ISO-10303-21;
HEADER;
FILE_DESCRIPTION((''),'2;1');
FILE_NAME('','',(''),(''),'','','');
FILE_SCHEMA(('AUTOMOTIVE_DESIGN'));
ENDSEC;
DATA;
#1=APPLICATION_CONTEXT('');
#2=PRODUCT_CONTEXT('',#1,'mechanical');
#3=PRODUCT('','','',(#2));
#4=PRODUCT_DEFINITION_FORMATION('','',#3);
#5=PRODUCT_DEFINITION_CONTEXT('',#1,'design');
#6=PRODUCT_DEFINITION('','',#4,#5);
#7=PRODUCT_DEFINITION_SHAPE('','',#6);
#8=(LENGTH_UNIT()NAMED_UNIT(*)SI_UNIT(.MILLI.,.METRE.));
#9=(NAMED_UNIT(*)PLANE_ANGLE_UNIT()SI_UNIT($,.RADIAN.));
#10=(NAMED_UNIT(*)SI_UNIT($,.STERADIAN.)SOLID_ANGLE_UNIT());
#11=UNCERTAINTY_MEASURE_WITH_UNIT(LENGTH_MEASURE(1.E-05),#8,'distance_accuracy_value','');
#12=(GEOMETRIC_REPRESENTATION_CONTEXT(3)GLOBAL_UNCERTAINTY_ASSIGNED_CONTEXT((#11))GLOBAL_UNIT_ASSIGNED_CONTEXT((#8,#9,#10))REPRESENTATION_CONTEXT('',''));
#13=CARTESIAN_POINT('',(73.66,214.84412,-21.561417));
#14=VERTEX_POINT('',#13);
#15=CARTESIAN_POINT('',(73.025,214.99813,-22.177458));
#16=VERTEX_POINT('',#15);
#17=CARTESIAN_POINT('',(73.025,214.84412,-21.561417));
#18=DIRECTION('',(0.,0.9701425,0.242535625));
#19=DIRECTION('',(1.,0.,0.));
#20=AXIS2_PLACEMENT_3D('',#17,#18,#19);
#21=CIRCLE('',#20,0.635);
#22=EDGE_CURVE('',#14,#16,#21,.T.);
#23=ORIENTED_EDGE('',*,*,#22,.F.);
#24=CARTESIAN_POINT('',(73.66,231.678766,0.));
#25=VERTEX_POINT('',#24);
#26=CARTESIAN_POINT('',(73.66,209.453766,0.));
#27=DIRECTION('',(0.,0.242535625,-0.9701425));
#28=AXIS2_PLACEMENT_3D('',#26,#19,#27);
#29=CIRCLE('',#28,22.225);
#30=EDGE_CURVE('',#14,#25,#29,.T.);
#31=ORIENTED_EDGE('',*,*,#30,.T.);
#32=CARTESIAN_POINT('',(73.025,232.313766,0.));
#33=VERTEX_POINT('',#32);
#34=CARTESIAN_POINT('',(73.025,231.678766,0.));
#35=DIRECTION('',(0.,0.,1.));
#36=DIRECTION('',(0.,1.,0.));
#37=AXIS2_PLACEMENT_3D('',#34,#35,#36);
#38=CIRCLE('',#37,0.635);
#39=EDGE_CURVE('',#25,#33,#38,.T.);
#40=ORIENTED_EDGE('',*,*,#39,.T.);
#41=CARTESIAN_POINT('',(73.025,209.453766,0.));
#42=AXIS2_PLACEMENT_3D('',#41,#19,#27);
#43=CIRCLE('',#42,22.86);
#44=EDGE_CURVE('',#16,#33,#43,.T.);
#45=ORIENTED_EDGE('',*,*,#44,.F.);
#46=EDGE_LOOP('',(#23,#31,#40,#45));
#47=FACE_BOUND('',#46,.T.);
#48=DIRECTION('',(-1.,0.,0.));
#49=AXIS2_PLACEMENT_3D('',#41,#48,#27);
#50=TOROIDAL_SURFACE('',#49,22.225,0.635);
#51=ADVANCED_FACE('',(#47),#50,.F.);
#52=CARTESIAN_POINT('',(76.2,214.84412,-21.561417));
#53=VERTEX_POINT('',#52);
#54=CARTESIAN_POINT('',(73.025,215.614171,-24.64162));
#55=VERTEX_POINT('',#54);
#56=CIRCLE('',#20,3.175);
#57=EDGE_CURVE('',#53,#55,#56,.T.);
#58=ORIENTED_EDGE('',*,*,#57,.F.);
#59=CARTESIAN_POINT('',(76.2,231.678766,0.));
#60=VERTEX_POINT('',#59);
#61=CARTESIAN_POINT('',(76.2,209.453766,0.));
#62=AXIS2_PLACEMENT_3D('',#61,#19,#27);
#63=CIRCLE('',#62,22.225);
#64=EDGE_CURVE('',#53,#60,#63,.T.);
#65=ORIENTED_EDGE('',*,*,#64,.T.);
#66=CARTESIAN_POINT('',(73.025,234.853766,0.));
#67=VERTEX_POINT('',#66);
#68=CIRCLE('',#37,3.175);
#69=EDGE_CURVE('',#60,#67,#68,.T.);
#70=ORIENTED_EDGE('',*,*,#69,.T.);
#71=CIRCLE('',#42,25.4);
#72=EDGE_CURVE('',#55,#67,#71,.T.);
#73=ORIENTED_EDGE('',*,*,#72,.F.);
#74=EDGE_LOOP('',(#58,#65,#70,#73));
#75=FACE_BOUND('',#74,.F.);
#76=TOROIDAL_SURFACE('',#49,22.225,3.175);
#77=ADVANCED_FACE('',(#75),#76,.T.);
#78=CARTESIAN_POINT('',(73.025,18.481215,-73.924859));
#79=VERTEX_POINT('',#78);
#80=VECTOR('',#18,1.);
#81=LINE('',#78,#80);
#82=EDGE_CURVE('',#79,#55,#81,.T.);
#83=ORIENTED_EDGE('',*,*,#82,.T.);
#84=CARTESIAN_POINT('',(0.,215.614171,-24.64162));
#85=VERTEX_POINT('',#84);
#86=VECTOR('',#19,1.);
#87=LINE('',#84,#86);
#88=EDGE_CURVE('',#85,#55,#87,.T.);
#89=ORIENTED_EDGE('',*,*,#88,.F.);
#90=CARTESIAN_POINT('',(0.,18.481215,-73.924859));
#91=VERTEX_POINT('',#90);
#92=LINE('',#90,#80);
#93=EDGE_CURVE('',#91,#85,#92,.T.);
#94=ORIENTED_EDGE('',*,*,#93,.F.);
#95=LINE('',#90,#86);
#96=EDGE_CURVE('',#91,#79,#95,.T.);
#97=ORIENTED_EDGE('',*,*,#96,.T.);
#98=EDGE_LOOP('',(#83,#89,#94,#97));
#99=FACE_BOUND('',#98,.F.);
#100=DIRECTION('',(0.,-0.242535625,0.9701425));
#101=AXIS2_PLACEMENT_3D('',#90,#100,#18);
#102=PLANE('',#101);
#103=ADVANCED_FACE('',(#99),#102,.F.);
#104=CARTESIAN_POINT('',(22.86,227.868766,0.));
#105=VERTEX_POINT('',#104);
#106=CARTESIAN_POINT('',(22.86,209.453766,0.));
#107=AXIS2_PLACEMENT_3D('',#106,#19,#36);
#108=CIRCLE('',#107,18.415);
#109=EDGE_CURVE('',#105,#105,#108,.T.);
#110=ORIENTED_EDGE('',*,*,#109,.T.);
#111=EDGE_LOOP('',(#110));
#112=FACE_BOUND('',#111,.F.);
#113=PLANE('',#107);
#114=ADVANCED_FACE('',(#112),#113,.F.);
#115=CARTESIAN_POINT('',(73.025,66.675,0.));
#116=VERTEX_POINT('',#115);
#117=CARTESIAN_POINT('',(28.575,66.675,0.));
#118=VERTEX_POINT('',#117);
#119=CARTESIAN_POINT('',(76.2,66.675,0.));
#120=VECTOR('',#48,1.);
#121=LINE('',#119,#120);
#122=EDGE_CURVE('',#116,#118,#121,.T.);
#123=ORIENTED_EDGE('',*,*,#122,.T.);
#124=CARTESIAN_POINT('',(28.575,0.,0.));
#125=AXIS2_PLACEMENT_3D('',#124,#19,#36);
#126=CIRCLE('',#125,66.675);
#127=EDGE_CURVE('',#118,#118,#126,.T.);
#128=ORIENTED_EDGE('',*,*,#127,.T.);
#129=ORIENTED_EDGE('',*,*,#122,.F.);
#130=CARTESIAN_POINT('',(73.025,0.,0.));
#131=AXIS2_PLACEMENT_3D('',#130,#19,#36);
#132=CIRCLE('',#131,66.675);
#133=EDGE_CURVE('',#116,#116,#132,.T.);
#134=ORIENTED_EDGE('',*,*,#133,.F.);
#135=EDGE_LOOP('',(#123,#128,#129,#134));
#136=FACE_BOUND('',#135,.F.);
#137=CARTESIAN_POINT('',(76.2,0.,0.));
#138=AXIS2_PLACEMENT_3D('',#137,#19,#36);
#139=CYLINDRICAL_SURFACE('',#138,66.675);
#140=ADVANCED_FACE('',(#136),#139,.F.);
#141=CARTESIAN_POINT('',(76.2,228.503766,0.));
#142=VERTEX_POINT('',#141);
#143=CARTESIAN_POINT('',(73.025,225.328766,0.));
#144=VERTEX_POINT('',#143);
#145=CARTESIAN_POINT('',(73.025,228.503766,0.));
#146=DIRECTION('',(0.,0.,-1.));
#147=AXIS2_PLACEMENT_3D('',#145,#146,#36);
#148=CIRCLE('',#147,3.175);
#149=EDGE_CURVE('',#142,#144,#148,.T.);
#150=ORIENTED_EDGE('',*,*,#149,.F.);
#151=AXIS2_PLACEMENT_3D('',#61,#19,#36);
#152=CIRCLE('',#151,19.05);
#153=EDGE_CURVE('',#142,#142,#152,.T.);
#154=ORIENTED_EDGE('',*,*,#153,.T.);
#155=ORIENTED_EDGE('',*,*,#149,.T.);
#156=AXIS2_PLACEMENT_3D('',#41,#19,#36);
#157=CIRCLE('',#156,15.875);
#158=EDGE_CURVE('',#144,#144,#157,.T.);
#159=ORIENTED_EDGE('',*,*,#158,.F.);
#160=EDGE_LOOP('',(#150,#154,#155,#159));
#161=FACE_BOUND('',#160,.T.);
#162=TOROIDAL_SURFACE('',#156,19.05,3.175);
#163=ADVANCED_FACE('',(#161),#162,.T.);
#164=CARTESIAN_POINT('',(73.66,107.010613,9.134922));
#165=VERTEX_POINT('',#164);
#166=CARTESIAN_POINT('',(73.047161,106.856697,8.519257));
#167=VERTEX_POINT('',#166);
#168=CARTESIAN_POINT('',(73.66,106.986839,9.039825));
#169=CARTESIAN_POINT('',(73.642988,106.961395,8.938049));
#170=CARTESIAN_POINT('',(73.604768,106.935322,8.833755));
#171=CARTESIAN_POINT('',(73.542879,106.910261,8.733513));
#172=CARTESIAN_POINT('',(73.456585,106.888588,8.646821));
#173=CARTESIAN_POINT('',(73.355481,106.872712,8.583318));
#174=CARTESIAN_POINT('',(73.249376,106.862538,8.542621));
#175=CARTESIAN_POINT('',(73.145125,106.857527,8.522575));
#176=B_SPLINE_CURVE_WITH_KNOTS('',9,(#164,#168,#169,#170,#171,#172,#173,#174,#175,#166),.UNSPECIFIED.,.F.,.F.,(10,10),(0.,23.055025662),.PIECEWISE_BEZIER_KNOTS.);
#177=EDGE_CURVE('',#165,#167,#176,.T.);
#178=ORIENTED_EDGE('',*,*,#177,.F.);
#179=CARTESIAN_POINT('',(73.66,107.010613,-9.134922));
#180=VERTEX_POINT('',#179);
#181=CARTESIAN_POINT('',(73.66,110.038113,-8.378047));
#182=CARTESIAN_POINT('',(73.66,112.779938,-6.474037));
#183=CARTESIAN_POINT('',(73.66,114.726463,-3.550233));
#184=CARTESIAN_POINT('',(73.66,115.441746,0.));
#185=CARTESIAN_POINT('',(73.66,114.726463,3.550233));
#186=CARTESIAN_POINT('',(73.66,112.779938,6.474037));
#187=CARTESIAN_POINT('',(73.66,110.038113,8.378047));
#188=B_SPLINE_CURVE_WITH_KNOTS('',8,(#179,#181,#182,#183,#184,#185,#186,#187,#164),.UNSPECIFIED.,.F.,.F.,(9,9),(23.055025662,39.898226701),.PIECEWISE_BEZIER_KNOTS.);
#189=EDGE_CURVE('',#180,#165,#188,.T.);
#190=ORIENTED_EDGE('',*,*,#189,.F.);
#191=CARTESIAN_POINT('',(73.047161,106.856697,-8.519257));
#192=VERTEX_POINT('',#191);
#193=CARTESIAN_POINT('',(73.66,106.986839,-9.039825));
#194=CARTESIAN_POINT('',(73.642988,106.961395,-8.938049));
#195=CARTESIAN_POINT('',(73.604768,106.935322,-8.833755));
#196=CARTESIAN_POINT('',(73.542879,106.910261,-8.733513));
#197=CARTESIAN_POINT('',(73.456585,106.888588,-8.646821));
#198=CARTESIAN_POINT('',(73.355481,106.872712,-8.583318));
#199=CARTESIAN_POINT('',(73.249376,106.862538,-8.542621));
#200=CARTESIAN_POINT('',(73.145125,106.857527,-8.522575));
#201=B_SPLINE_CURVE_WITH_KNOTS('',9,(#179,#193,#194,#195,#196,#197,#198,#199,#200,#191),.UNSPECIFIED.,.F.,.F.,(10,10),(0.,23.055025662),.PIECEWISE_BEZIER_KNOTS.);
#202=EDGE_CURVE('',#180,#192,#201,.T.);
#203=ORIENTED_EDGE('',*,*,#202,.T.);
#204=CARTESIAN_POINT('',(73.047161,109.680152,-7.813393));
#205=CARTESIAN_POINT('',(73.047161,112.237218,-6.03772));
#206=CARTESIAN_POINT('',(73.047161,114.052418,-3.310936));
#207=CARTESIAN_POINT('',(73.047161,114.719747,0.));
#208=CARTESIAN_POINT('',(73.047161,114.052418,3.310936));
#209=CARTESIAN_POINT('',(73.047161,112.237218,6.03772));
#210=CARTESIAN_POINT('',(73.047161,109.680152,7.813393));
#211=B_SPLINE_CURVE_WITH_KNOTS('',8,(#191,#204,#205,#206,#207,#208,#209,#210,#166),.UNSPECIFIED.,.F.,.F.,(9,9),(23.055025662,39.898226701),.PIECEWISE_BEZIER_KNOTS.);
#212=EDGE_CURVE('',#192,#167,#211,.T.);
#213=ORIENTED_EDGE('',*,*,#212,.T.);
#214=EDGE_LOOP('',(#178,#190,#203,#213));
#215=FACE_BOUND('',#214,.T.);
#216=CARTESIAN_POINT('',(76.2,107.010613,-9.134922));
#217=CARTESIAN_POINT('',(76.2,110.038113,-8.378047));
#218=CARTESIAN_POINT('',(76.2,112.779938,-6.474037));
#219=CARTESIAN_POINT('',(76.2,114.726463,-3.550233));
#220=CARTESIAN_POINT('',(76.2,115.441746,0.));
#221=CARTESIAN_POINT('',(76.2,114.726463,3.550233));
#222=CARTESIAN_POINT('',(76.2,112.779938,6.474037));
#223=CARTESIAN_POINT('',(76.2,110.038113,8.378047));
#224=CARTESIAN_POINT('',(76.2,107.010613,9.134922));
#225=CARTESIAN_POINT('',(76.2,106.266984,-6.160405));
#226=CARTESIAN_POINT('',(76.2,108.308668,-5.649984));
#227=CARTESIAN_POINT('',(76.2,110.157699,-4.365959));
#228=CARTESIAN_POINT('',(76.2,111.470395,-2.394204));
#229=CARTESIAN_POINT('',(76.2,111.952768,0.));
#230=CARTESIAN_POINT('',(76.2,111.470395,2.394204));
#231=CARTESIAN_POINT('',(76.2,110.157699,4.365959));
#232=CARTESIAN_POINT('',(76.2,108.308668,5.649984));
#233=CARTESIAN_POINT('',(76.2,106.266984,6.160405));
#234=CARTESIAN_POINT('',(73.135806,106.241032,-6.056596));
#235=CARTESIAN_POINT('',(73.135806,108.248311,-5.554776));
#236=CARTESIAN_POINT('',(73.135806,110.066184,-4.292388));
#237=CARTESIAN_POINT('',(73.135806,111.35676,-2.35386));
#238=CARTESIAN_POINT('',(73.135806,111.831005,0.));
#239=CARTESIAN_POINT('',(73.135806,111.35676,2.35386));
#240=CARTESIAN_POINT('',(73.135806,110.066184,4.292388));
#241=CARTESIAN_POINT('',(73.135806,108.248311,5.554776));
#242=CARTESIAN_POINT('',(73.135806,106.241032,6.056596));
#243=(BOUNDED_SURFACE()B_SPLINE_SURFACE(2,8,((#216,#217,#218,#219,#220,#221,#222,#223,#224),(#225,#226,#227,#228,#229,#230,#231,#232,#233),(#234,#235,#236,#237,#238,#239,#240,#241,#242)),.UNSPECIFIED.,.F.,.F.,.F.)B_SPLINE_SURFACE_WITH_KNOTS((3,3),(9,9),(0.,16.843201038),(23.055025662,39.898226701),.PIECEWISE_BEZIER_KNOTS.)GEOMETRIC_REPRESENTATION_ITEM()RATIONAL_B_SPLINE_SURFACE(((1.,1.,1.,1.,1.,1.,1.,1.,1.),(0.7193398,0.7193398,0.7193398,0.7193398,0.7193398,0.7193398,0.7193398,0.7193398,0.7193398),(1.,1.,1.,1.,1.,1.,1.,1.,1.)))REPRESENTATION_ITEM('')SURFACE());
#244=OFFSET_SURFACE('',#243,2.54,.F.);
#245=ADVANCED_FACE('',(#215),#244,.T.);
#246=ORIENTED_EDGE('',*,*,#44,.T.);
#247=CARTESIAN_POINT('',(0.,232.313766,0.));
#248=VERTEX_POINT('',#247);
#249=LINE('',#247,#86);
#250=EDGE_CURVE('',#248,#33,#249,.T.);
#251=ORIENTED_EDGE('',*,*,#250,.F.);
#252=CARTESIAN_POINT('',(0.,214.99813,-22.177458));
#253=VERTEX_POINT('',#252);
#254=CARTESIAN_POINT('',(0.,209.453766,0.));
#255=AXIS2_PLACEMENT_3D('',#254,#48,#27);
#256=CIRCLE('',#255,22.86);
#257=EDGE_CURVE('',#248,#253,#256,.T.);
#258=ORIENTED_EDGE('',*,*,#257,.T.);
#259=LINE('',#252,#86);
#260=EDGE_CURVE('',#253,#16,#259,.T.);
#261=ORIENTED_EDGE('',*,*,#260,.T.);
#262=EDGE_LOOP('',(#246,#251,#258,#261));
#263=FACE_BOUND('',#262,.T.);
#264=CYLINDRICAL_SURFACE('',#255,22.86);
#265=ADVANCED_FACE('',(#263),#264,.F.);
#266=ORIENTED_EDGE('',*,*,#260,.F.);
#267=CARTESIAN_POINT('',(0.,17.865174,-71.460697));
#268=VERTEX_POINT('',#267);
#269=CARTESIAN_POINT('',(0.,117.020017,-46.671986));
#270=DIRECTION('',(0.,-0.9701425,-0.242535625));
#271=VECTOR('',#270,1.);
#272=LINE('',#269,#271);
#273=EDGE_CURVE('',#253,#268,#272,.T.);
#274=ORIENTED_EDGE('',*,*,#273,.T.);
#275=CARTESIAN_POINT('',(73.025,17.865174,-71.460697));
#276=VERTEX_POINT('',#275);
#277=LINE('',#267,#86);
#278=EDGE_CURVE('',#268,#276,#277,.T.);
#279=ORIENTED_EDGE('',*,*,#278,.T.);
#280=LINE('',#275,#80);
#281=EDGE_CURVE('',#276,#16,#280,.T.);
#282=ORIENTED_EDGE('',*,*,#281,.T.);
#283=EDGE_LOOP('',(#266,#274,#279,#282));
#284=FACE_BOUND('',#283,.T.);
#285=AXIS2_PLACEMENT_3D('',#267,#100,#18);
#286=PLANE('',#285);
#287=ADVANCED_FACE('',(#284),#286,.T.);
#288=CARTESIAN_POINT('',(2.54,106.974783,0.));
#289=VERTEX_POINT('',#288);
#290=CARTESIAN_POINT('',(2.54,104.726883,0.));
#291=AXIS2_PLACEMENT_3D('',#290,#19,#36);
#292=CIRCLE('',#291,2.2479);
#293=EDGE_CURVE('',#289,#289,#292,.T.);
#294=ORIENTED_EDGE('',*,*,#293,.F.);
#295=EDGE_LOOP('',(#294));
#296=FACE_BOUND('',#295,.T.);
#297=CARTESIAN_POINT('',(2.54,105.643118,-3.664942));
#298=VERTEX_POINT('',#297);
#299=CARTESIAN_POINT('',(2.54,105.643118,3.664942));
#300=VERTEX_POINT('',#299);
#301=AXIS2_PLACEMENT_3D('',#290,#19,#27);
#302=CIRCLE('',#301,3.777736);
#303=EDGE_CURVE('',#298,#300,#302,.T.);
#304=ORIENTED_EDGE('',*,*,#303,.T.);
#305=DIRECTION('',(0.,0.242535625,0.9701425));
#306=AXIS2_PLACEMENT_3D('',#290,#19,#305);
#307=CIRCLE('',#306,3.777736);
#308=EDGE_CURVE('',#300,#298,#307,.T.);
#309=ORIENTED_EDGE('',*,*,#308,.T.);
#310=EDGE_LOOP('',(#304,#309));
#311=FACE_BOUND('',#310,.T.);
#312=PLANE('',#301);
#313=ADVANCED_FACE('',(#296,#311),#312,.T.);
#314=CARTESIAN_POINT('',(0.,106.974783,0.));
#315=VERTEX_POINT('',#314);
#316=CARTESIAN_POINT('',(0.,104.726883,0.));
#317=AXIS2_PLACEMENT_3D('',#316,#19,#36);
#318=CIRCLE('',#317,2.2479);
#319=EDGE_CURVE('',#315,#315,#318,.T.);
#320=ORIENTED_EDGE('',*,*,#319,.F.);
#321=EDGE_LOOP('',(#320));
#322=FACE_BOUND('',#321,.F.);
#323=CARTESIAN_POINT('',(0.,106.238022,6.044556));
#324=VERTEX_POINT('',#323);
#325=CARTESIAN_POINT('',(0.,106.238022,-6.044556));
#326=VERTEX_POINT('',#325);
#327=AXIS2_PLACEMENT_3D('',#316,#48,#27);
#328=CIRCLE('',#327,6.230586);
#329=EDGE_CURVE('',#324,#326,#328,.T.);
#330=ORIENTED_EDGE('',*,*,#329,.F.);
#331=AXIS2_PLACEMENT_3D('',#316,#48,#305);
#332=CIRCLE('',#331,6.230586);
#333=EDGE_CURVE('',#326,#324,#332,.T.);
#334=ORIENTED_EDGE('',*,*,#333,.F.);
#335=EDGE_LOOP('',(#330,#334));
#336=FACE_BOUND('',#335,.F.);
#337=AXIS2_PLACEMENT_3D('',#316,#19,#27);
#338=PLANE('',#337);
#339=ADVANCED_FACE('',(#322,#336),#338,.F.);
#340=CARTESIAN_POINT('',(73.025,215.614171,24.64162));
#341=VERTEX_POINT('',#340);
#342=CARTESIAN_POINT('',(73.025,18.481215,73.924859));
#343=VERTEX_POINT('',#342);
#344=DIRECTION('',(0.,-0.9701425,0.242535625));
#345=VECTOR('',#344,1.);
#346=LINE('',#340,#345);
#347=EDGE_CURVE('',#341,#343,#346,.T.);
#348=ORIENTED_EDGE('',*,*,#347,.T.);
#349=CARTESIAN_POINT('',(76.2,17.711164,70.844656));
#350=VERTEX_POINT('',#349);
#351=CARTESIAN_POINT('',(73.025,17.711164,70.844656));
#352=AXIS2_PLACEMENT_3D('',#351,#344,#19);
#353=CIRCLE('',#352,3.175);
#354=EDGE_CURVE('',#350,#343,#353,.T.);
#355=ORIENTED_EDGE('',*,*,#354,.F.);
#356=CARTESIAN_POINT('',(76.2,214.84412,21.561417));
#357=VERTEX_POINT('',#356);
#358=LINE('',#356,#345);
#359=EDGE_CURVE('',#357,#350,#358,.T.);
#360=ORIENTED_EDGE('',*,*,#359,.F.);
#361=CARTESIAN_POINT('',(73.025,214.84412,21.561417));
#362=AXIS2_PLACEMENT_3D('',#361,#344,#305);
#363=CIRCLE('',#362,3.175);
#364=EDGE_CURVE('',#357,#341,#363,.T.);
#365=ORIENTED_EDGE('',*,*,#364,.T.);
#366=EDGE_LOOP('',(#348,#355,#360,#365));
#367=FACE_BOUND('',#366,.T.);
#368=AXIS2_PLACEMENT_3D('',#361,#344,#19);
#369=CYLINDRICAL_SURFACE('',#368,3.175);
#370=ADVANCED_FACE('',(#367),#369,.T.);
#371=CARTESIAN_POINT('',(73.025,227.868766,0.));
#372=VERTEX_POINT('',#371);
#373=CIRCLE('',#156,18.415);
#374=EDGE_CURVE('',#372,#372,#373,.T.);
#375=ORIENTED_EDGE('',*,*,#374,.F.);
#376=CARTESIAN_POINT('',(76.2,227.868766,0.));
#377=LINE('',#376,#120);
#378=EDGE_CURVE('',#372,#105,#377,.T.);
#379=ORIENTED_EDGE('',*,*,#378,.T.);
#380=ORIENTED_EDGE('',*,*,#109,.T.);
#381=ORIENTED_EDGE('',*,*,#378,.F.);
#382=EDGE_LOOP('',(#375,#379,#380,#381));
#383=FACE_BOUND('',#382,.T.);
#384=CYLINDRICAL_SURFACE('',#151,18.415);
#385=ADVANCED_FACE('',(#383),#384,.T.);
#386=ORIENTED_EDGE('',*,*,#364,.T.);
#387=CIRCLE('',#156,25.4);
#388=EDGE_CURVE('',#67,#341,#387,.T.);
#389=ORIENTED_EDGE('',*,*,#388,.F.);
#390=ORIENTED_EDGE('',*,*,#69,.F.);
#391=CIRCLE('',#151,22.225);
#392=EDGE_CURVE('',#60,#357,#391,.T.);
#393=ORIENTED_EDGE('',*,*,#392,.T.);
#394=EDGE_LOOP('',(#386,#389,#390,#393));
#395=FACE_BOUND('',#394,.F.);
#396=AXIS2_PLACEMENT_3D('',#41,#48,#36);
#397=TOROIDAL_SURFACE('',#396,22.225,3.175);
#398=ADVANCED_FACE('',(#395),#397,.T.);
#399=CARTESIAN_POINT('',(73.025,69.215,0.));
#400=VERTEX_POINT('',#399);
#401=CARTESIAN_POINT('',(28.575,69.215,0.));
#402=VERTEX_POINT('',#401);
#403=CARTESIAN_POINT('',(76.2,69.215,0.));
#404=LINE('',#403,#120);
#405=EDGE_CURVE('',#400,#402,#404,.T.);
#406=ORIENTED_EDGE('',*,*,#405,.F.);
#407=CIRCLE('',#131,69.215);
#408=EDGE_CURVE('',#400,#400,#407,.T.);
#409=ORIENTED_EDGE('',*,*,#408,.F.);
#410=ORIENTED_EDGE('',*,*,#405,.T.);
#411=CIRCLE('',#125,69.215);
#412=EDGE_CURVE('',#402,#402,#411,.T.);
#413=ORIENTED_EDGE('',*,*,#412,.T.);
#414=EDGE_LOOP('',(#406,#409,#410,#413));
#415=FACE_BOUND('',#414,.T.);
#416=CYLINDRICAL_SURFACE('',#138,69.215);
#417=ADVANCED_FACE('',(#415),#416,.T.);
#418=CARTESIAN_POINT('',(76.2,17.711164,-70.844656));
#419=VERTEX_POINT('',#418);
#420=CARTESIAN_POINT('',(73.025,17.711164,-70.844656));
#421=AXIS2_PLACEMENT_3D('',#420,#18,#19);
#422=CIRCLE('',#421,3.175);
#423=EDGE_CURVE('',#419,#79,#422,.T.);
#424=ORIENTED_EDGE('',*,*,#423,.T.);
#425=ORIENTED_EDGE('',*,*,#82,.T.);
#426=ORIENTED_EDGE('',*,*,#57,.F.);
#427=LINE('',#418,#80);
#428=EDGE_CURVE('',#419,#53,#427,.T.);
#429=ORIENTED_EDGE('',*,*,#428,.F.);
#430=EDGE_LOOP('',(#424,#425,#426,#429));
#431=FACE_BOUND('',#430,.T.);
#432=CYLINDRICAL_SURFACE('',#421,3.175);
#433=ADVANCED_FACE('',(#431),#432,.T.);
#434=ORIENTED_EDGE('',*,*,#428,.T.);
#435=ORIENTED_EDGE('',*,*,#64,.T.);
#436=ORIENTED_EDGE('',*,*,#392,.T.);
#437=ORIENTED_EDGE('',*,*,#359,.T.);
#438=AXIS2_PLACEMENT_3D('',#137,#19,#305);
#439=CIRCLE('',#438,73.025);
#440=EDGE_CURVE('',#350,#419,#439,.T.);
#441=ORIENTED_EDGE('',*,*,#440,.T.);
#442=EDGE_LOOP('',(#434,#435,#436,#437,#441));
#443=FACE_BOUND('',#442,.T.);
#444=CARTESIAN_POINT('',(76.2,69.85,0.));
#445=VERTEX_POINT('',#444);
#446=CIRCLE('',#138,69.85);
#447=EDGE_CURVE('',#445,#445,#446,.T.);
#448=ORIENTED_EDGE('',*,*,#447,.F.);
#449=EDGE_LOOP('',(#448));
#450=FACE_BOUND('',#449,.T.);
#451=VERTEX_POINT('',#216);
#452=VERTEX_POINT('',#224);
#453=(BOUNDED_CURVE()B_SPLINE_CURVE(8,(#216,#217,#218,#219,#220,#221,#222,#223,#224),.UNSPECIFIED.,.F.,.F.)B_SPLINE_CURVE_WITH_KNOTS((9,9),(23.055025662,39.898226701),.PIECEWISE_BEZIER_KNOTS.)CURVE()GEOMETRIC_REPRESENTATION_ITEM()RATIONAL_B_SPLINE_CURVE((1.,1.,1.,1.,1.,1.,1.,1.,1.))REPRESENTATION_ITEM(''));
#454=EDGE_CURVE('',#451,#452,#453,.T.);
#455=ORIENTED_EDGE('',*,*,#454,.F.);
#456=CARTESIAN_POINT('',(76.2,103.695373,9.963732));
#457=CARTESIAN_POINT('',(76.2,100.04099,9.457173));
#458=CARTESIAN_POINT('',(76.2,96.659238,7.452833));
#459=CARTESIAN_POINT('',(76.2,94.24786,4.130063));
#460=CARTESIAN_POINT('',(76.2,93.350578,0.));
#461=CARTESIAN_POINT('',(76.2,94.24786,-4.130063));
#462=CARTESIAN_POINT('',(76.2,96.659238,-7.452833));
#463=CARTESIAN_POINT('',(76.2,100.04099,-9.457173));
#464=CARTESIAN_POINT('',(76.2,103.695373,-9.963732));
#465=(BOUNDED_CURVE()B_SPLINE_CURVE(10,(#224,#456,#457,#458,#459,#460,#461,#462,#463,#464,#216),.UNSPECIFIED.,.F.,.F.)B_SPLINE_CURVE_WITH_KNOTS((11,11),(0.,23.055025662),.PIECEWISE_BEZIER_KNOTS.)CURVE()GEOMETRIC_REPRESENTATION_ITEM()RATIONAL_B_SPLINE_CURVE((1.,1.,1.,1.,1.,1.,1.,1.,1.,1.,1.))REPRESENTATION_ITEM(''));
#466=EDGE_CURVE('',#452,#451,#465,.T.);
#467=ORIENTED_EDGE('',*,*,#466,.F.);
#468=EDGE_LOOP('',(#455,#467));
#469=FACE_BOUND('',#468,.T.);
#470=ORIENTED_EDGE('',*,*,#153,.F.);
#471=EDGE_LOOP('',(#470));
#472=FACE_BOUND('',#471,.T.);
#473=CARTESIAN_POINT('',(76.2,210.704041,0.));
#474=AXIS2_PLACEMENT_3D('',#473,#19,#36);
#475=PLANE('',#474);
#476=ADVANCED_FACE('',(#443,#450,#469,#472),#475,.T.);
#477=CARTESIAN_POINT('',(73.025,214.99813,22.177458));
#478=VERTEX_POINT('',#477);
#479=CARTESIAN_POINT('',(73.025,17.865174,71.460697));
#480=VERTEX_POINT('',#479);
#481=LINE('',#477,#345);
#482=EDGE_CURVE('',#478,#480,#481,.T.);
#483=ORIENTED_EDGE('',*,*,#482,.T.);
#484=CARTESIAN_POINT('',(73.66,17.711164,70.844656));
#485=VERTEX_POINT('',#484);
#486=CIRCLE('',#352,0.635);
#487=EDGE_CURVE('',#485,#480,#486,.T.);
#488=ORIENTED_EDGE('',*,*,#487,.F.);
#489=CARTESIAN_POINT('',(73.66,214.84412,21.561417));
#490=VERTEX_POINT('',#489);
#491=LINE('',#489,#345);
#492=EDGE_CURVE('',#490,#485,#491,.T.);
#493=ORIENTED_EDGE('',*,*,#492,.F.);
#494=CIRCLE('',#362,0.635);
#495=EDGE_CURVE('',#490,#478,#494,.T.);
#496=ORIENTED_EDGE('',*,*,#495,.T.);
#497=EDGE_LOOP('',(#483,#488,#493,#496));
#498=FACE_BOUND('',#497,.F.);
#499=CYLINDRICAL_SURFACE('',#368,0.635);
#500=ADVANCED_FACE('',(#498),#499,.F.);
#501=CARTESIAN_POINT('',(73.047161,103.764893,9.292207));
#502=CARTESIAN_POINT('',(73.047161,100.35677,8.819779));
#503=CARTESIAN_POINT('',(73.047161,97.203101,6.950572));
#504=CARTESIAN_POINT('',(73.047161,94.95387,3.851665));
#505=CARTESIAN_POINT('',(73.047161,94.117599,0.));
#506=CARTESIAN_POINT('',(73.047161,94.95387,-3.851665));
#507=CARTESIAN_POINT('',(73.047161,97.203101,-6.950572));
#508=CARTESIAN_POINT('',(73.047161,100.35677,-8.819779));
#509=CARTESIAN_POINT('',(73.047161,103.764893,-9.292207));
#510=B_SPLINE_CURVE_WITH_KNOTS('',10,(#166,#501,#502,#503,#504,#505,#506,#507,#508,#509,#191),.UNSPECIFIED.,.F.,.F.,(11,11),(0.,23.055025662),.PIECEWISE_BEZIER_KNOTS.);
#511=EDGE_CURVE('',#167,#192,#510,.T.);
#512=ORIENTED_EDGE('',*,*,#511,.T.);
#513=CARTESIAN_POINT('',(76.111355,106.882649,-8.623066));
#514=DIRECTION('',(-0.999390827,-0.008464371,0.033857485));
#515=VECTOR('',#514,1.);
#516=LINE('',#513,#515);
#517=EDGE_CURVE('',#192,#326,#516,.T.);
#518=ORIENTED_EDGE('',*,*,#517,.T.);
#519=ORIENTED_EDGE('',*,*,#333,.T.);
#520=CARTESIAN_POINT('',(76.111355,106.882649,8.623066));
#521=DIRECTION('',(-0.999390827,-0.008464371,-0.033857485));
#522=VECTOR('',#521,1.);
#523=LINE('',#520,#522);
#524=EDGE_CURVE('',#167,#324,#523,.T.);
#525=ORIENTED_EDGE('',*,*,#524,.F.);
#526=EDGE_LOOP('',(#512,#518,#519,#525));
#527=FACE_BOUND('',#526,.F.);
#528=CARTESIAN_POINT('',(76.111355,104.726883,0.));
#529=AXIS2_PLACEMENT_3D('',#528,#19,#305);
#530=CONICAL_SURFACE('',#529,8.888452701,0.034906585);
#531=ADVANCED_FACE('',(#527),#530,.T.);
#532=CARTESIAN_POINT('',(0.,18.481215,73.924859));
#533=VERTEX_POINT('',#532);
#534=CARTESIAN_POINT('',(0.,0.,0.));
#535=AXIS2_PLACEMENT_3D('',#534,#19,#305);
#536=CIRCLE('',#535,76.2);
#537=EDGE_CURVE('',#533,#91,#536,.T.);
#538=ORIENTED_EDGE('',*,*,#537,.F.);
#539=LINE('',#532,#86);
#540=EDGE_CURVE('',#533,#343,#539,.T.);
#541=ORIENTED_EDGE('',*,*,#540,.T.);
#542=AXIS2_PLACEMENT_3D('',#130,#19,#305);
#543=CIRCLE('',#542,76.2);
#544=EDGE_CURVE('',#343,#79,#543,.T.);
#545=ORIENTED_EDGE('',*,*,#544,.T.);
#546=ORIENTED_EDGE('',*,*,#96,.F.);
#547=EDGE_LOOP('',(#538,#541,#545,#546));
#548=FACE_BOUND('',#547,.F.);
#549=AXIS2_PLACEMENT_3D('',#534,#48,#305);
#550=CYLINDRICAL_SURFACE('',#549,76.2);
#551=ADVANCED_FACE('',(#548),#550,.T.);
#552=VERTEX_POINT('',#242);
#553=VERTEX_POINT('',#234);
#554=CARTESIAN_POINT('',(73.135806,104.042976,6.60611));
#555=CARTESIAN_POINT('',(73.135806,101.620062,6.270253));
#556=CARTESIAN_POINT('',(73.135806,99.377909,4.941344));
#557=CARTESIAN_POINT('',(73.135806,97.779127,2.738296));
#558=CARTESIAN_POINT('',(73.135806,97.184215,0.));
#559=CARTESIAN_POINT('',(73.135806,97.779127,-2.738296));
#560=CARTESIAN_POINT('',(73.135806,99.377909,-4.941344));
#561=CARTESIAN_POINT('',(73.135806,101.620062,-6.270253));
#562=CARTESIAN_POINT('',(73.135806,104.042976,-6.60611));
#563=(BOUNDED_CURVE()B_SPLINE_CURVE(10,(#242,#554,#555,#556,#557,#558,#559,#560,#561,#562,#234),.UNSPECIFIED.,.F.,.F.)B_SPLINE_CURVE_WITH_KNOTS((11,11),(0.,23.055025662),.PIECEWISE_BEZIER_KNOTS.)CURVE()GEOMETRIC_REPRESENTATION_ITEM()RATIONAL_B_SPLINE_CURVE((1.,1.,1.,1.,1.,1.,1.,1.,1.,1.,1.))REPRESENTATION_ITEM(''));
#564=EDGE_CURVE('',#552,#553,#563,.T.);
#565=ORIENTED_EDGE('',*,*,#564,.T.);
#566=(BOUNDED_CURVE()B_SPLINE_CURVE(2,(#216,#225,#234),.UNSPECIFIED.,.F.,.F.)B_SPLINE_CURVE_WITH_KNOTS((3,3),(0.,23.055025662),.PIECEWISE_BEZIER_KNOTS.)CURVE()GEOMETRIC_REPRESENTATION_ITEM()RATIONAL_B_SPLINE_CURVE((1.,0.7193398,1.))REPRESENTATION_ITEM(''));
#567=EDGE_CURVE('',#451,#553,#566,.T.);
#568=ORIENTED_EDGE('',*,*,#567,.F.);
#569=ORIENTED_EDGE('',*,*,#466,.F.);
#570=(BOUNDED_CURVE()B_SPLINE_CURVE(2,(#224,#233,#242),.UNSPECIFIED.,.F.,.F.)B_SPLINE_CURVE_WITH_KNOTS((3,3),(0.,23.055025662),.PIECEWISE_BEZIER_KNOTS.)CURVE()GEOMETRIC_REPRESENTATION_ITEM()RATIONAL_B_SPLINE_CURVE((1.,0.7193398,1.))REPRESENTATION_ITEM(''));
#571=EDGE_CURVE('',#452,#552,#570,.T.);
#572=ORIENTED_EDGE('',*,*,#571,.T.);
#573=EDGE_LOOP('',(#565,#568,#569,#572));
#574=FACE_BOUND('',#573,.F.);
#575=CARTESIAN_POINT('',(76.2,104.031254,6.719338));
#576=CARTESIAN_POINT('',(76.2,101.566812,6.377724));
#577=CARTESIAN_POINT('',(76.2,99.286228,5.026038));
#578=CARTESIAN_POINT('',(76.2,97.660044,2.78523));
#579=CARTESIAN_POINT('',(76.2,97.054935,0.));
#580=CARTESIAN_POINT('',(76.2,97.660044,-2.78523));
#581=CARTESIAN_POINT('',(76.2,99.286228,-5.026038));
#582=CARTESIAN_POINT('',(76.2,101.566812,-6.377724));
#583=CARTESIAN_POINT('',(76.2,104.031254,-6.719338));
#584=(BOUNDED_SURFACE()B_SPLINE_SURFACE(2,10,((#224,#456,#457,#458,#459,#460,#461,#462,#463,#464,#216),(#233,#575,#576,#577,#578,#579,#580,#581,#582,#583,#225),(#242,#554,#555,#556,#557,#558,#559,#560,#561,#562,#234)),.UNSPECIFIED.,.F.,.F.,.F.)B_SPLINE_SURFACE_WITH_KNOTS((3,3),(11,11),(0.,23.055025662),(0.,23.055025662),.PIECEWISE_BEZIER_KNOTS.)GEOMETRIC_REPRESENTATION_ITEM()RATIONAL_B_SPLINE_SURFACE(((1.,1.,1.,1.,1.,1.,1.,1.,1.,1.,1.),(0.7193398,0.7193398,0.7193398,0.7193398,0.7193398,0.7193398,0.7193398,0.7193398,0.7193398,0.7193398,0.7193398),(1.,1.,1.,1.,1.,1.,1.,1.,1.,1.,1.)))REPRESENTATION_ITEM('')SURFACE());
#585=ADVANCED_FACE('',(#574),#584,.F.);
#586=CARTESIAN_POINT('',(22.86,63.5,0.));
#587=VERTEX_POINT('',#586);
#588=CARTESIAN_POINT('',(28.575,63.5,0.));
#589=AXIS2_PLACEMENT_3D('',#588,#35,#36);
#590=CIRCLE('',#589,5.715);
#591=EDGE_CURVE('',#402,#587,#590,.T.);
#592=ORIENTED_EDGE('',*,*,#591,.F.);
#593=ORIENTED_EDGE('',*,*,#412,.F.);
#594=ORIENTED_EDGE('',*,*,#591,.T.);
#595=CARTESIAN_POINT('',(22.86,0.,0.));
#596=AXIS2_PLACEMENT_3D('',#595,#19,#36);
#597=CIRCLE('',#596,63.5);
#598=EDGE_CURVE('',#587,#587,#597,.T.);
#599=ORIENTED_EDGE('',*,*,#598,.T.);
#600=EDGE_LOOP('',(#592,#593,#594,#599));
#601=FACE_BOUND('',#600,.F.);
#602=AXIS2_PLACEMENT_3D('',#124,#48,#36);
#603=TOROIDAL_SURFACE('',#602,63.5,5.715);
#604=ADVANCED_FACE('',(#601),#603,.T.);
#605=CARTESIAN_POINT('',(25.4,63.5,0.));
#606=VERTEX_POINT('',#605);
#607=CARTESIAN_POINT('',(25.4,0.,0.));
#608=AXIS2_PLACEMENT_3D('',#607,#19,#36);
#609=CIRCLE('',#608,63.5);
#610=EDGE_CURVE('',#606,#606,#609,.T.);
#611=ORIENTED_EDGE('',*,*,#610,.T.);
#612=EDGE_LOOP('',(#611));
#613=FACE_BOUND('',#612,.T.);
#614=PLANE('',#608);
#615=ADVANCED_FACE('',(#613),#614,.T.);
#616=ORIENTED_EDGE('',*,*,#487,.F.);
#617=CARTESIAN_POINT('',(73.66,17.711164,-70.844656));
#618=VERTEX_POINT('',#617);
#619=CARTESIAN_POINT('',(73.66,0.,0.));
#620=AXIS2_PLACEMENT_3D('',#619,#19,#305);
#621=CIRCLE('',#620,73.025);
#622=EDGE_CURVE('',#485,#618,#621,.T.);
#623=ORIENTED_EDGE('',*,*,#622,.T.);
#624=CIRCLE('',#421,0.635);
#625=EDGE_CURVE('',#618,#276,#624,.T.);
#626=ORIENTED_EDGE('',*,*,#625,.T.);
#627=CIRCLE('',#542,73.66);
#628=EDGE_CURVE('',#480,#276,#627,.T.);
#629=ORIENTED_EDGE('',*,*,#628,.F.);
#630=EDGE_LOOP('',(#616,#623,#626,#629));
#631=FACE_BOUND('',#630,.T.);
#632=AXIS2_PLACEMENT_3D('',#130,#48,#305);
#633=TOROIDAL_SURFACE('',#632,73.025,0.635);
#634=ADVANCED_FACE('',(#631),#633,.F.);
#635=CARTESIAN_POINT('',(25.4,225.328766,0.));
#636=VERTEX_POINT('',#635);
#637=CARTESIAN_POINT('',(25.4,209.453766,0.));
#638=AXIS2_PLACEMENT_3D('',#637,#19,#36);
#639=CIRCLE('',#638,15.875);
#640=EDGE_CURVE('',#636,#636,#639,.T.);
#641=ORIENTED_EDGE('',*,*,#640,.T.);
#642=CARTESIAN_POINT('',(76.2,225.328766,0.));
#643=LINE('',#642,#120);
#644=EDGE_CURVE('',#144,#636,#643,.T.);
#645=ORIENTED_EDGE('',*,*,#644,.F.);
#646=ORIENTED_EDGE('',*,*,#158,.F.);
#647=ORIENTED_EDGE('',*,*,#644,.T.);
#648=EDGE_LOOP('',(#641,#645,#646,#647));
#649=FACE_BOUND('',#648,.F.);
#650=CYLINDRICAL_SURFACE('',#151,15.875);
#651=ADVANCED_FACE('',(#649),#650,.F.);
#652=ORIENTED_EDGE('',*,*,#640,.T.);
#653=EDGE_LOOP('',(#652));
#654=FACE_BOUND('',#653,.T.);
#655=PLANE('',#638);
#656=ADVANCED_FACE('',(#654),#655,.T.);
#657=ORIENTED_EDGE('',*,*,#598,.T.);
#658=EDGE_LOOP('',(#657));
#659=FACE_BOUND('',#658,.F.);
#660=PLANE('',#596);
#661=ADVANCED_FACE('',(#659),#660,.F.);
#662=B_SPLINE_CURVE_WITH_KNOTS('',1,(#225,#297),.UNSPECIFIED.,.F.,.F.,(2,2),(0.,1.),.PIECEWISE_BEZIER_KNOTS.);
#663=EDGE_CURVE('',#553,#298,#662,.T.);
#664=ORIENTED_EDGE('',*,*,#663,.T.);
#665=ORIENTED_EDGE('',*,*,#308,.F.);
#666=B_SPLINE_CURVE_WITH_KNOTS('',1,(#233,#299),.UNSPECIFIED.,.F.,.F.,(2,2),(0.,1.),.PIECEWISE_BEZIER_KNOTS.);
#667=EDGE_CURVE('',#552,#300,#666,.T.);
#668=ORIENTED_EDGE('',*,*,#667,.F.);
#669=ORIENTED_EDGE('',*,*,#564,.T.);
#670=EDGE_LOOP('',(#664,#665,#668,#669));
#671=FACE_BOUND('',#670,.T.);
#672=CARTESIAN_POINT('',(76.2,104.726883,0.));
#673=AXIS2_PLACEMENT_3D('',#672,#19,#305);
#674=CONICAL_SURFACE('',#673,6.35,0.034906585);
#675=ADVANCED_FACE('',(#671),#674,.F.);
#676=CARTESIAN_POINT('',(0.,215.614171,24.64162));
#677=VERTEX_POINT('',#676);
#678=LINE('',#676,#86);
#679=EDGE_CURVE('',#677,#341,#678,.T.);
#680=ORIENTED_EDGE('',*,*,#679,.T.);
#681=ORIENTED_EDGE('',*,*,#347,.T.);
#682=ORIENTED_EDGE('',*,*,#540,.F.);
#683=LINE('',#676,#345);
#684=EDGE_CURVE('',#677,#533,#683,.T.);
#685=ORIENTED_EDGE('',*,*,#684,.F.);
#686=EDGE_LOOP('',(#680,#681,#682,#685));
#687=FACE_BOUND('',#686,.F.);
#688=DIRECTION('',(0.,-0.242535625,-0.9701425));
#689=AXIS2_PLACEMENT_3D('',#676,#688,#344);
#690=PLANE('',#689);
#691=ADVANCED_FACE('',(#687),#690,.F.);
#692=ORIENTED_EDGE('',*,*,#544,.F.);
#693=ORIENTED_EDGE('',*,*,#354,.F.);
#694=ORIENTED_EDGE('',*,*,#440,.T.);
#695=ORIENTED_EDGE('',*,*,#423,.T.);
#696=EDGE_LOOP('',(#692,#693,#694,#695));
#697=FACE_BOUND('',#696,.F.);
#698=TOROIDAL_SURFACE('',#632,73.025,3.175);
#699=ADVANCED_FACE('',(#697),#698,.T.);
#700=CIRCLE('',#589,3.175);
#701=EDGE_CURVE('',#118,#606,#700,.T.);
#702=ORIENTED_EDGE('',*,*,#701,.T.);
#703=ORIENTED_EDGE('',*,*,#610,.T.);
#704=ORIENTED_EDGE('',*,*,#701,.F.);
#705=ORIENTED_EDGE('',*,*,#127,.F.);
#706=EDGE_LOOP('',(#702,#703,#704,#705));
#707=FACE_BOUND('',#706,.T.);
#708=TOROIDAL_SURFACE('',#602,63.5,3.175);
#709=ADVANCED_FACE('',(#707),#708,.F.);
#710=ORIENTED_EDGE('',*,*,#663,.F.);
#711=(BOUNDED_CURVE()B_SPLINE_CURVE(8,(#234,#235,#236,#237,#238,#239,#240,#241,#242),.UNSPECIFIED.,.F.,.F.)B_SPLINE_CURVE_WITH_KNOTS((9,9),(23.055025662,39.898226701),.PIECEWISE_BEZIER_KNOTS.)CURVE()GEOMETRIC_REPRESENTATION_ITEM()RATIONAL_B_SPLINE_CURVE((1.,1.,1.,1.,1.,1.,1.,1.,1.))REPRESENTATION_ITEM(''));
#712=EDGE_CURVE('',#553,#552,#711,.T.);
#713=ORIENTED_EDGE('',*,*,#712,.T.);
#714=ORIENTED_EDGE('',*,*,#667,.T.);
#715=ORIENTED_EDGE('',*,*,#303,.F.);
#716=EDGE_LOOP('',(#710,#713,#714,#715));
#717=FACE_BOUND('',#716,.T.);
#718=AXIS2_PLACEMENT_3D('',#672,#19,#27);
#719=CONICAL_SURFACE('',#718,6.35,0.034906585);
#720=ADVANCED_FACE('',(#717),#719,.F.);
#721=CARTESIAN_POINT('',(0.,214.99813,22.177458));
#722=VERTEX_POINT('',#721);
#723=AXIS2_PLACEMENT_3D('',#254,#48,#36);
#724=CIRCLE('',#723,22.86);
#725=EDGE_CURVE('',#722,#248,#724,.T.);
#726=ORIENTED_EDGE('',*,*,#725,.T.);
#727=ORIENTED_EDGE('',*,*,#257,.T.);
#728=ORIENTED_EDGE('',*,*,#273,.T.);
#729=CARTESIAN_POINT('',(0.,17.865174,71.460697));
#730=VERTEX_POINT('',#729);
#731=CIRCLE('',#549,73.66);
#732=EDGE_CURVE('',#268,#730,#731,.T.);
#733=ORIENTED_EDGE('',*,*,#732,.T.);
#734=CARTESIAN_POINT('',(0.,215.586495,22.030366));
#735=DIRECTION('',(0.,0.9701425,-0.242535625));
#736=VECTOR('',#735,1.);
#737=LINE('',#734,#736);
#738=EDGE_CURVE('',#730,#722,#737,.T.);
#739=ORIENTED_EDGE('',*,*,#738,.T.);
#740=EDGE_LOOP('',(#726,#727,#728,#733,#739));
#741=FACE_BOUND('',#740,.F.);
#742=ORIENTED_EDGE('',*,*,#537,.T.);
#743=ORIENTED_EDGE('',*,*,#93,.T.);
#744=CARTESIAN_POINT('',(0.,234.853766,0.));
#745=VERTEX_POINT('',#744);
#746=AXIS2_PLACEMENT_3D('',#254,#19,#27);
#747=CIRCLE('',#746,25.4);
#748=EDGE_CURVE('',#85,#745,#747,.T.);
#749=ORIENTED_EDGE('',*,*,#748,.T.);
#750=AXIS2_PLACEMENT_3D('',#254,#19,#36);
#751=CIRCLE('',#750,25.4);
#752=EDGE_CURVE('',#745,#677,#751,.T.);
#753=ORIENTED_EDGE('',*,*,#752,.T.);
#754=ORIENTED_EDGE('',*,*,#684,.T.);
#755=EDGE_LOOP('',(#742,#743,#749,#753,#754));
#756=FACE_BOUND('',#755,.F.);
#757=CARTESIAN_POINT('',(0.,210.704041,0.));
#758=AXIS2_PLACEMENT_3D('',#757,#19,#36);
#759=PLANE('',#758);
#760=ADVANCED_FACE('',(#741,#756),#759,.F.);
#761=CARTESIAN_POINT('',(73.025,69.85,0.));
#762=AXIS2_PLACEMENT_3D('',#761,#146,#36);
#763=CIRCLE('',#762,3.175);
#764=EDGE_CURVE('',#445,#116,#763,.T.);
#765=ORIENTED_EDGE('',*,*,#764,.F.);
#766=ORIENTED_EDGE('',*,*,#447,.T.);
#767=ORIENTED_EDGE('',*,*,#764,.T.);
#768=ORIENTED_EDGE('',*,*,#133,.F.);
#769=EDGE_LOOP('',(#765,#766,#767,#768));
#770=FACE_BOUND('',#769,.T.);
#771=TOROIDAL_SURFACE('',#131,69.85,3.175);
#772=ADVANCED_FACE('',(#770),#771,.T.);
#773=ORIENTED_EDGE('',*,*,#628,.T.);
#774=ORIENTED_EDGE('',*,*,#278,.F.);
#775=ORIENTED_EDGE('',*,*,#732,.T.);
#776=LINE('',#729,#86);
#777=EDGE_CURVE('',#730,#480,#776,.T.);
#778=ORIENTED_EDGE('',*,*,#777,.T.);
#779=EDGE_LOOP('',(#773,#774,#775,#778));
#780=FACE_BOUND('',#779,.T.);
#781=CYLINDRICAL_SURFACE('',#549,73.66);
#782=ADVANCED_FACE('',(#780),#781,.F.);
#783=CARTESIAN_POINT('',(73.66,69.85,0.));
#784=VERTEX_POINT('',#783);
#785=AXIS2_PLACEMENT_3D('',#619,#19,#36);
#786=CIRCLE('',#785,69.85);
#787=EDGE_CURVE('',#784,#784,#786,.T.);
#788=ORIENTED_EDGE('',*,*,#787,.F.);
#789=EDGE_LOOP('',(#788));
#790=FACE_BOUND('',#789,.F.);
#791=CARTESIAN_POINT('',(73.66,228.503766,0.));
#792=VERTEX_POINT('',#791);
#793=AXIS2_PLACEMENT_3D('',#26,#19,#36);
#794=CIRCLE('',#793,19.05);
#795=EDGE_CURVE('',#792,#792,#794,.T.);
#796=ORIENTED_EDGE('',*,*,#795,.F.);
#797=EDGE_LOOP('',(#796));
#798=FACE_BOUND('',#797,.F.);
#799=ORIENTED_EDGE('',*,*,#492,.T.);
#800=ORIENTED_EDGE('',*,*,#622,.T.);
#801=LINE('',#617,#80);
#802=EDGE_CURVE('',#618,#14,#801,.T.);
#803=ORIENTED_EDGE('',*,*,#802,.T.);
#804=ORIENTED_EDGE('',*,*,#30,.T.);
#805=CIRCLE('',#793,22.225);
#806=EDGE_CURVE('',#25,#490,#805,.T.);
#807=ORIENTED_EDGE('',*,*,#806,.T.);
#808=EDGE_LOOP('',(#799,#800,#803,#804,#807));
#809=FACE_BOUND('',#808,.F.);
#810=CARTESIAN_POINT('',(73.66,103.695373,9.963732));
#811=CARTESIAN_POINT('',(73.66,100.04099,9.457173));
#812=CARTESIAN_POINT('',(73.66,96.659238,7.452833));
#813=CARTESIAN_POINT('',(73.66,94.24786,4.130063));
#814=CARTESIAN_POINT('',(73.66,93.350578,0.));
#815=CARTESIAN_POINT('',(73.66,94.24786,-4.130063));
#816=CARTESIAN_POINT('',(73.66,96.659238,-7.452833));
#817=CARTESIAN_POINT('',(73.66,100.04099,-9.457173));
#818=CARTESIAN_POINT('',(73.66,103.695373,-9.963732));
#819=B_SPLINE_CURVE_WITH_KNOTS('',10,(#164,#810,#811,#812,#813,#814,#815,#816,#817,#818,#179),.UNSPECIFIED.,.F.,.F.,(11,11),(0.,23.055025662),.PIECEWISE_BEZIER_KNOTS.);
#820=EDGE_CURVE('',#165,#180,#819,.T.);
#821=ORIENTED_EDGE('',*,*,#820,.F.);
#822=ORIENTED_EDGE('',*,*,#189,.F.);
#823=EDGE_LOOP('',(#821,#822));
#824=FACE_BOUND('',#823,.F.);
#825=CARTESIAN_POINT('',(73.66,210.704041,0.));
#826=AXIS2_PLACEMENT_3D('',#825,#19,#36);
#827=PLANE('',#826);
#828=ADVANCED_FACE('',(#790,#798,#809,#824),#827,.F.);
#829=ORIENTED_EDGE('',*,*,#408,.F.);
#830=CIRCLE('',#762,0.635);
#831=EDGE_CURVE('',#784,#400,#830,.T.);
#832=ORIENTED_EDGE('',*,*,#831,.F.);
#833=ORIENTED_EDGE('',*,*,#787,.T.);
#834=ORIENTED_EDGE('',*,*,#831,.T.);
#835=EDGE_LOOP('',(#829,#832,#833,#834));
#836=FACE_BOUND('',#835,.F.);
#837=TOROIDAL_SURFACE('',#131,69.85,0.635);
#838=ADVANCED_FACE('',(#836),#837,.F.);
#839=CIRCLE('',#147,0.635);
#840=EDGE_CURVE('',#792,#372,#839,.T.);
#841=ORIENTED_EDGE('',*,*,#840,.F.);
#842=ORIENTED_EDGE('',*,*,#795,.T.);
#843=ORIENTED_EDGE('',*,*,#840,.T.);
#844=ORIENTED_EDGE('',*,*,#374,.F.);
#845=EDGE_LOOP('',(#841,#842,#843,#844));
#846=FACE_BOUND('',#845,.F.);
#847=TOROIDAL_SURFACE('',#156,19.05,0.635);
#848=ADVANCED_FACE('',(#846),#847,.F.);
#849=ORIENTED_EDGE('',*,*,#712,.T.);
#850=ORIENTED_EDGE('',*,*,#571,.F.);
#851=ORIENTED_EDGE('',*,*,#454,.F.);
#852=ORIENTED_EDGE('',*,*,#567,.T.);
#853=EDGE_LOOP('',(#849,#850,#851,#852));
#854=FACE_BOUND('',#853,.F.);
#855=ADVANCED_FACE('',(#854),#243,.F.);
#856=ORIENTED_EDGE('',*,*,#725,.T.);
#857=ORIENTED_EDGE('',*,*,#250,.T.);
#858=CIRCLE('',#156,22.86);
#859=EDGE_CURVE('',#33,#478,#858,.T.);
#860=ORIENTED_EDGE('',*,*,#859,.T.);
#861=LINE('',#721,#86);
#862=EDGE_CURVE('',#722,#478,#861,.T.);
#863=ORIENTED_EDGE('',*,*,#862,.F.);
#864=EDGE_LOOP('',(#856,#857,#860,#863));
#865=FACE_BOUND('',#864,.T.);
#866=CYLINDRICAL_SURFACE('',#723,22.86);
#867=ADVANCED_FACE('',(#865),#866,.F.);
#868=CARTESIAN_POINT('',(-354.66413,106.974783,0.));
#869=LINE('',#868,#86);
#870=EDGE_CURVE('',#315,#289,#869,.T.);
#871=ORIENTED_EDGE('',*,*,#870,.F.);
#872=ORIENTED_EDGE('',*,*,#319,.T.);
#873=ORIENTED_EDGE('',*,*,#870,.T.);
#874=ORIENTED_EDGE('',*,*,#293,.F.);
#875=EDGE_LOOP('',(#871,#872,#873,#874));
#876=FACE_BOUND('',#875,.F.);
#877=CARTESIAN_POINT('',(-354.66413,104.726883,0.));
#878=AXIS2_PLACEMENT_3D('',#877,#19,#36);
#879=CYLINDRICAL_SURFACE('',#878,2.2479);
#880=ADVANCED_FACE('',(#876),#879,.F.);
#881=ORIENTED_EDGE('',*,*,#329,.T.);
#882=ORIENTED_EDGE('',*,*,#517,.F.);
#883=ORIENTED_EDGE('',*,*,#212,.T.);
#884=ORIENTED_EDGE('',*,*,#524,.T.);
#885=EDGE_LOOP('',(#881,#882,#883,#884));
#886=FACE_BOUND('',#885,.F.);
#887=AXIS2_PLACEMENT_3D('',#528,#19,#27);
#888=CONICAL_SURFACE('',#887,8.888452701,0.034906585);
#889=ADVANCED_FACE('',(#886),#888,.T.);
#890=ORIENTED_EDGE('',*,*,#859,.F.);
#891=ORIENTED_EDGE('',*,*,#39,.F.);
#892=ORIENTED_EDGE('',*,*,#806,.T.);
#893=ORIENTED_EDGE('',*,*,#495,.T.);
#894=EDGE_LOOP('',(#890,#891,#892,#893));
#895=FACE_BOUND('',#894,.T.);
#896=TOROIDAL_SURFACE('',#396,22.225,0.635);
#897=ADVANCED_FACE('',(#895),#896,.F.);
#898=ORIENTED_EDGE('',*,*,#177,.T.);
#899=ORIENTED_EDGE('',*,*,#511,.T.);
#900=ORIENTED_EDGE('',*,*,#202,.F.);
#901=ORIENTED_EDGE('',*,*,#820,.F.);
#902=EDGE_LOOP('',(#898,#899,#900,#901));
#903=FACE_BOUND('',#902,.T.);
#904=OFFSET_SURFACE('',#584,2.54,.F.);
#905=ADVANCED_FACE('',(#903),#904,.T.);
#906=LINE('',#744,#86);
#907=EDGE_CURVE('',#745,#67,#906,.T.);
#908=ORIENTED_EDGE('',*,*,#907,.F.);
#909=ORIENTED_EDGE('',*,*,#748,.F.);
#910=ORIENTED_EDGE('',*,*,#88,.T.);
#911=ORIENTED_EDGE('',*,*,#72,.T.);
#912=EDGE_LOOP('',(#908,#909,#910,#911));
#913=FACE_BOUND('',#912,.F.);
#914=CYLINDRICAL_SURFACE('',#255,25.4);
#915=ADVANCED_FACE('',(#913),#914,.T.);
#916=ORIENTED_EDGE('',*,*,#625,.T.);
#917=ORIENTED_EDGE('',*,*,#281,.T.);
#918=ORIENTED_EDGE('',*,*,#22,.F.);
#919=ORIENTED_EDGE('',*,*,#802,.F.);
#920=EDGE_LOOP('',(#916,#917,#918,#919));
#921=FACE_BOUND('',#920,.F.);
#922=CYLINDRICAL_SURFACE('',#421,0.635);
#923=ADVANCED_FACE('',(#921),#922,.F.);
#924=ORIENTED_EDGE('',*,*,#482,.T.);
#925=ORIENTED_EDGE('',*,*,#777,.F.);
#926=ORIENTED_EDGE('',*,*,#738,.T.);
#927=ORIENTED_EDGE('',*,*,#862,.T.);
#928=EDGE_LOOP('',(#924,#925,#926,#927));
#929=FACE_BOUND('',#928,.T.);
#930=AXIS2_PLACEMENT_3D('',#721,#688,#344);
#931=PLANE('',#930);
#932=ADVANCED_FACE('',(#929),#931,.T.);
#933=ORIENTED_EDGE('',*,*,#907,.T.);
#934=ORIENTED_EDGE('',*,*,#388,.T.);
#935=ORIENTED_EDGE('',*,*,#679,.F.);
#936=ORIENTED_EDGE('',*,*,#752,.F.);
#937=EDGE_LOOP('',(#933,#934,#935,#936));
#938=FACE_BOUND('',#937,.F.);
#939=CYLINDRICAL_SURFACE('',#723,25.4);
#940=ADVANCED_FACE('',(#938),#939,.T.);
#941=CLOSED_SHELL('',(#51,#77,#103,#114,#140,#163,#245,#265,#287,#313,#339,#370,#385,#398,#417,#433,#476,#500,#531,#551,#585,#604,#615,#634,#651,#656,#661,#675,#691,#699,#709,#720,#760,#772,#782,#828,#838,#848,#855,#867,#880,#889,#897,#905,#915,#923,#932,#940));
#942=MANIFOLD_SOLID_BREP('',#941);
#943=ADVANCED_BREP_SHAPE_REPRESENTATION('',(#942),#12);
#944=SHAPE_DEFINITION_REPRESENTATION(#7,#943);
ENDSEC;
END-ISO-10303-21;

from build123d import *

# Parameters (mm, degrees)
F1_DEPTH = 76.2
F2_R     = 66.675
F2_R_2   = 15.875
F3_DEPTH = 50.8
F5_DEPTH = 73.66
F5_TAPER = 2
F6_R     = 3.175
F7_T     = -2.54
F9_D     = 4.4958


with BuildPart() as f1:
    # F0 (on Right) → F1 (new body)
    with BuildSketch(Plane.YZ):
        with BuildLine():
            ThreePointArc((234.8537657814, 0), (229.474183907, 15.6314701188), (215.6141706573, 24.6416195037))
            ThreePointArc((215.6141706573, 24.6416195037), (184.0537657814, 0), (215.6141706573, -24.6416195037))
            ThreePointArc((215.6141706573, -24.6416195037), (229.474183907, -15.6314701188), (234.8537657814, 0))
        make_face()
        with BuildLine():
            ThreePointArc((18.4812146278, 73.9248585111), (60.0612543768, 46.8944103565), (76.2, 0))
            ThreePointArc((76.2, 0), (60.0612543768, -46.8944103565), (18.4812146278, -73.9248585111))
            Line((18.4812146278, -73.9248585111), (215.6141706573, -24.6416195037))
            ThreePointArc((215.6141706573, -24.6416195037), (184.0537657814, 0), (215.6141706573, 24.6416195037))
            Line((215.6141706573, 24.6416195037), (18.4812146278, 73.9248585111))
        make_face()
        with BuildLine():
            ThreePointArc((18.4812146278, -73.9248585111), (60.0612543768, -46.8944103565), (76.2, 0))
            ThreePointArc((76.2, 0), (60.0612543768, 46.8944103565), (18.4812146278, 73.9248585111))
            ThreePointArc((18.4812146278, 73.9248585111), (-76.2, 0), (18.4812146278, -73.9248585111))
        make_face()
    extrude(amount=F1_DEPTH)

    # F2 (on face) → F3 (cut)
    with BuildSketch(Plane.YZ.offset(76.2)):
        Circle(F2_R)
        with Locations((209.4537657814, 0)):
            Circle(F2_R_2)
    extrude(amount=-F3_DEPTH, mode=Mode.SUBTRACT)

    # F4 (on face) → F5 (cut)
    with BuildSketch(Plane.YZ.offset(76.2)):
        with BuildLine():
            ThreePointArc((111.0768828907, 0), (109.7319874221, 3.9078675297), (106.2669841097, 6.1604048759))
            Line((106.2669841097, 6.1604048759), (104.7268828907, 0))
            Line((104.7268828907, 0), (106.2669841097, -6.1604048759))
            ThreePointArc((106.2669841097, -6.1604048759), (109.7319874221, -3.9078675297), (111.0768828907, 0))
        make_face()
        with BuildLine():
            Line((104.7268828907, 0), (106.2669841097, 6.1604048759))
            ThreePointArc((106.2669841097, 6.1604048759), (98.3768828907, 0), (106.2669841097, -6.1604048759))
            Line((106.2669841097, -6.1604048759), (104.7268828907, 0))
        make_face()
    extrude(amount=-F5_DEPTH, taper=F5_TAPER, mode=Mode.SUBTRACT)

    # F6
    f6_edges = [f1.edges().sort_by_distance(p)[0] for p in [
        (76.2, 234.853766, 0),
        (76.2, 117.047693, -49.283239),
        (76.2, 117.047693, 49.283239),
        (76.2, -76.2, 0),
        (76.2, -66.675, 0),
        (76.2, 98.376883, 0),
        (76.2, 193.578766, 0),
        (25.4, -66.675, 0),
    ]]
    fillet(f6_edges, radius=F6_R)

    # F7
    f7_openings = [f1.faces().sort_by_distance(p)[0] for p in [
        (0, 57.51924, 0),
    ]]
    offset(amount=F7_T, openings=f7_openings, kind=Kind.INTERSECTION)

    # F9 (through all)
    with Locations(Plane(origin=(0, 0, 0), x_dir=(0, -1, 0), z_dir=(-1, 0, 0))):
        with Locations((-104.7268828907, 0)):
            Hole(F9_D / 2)


solid = f1.part
